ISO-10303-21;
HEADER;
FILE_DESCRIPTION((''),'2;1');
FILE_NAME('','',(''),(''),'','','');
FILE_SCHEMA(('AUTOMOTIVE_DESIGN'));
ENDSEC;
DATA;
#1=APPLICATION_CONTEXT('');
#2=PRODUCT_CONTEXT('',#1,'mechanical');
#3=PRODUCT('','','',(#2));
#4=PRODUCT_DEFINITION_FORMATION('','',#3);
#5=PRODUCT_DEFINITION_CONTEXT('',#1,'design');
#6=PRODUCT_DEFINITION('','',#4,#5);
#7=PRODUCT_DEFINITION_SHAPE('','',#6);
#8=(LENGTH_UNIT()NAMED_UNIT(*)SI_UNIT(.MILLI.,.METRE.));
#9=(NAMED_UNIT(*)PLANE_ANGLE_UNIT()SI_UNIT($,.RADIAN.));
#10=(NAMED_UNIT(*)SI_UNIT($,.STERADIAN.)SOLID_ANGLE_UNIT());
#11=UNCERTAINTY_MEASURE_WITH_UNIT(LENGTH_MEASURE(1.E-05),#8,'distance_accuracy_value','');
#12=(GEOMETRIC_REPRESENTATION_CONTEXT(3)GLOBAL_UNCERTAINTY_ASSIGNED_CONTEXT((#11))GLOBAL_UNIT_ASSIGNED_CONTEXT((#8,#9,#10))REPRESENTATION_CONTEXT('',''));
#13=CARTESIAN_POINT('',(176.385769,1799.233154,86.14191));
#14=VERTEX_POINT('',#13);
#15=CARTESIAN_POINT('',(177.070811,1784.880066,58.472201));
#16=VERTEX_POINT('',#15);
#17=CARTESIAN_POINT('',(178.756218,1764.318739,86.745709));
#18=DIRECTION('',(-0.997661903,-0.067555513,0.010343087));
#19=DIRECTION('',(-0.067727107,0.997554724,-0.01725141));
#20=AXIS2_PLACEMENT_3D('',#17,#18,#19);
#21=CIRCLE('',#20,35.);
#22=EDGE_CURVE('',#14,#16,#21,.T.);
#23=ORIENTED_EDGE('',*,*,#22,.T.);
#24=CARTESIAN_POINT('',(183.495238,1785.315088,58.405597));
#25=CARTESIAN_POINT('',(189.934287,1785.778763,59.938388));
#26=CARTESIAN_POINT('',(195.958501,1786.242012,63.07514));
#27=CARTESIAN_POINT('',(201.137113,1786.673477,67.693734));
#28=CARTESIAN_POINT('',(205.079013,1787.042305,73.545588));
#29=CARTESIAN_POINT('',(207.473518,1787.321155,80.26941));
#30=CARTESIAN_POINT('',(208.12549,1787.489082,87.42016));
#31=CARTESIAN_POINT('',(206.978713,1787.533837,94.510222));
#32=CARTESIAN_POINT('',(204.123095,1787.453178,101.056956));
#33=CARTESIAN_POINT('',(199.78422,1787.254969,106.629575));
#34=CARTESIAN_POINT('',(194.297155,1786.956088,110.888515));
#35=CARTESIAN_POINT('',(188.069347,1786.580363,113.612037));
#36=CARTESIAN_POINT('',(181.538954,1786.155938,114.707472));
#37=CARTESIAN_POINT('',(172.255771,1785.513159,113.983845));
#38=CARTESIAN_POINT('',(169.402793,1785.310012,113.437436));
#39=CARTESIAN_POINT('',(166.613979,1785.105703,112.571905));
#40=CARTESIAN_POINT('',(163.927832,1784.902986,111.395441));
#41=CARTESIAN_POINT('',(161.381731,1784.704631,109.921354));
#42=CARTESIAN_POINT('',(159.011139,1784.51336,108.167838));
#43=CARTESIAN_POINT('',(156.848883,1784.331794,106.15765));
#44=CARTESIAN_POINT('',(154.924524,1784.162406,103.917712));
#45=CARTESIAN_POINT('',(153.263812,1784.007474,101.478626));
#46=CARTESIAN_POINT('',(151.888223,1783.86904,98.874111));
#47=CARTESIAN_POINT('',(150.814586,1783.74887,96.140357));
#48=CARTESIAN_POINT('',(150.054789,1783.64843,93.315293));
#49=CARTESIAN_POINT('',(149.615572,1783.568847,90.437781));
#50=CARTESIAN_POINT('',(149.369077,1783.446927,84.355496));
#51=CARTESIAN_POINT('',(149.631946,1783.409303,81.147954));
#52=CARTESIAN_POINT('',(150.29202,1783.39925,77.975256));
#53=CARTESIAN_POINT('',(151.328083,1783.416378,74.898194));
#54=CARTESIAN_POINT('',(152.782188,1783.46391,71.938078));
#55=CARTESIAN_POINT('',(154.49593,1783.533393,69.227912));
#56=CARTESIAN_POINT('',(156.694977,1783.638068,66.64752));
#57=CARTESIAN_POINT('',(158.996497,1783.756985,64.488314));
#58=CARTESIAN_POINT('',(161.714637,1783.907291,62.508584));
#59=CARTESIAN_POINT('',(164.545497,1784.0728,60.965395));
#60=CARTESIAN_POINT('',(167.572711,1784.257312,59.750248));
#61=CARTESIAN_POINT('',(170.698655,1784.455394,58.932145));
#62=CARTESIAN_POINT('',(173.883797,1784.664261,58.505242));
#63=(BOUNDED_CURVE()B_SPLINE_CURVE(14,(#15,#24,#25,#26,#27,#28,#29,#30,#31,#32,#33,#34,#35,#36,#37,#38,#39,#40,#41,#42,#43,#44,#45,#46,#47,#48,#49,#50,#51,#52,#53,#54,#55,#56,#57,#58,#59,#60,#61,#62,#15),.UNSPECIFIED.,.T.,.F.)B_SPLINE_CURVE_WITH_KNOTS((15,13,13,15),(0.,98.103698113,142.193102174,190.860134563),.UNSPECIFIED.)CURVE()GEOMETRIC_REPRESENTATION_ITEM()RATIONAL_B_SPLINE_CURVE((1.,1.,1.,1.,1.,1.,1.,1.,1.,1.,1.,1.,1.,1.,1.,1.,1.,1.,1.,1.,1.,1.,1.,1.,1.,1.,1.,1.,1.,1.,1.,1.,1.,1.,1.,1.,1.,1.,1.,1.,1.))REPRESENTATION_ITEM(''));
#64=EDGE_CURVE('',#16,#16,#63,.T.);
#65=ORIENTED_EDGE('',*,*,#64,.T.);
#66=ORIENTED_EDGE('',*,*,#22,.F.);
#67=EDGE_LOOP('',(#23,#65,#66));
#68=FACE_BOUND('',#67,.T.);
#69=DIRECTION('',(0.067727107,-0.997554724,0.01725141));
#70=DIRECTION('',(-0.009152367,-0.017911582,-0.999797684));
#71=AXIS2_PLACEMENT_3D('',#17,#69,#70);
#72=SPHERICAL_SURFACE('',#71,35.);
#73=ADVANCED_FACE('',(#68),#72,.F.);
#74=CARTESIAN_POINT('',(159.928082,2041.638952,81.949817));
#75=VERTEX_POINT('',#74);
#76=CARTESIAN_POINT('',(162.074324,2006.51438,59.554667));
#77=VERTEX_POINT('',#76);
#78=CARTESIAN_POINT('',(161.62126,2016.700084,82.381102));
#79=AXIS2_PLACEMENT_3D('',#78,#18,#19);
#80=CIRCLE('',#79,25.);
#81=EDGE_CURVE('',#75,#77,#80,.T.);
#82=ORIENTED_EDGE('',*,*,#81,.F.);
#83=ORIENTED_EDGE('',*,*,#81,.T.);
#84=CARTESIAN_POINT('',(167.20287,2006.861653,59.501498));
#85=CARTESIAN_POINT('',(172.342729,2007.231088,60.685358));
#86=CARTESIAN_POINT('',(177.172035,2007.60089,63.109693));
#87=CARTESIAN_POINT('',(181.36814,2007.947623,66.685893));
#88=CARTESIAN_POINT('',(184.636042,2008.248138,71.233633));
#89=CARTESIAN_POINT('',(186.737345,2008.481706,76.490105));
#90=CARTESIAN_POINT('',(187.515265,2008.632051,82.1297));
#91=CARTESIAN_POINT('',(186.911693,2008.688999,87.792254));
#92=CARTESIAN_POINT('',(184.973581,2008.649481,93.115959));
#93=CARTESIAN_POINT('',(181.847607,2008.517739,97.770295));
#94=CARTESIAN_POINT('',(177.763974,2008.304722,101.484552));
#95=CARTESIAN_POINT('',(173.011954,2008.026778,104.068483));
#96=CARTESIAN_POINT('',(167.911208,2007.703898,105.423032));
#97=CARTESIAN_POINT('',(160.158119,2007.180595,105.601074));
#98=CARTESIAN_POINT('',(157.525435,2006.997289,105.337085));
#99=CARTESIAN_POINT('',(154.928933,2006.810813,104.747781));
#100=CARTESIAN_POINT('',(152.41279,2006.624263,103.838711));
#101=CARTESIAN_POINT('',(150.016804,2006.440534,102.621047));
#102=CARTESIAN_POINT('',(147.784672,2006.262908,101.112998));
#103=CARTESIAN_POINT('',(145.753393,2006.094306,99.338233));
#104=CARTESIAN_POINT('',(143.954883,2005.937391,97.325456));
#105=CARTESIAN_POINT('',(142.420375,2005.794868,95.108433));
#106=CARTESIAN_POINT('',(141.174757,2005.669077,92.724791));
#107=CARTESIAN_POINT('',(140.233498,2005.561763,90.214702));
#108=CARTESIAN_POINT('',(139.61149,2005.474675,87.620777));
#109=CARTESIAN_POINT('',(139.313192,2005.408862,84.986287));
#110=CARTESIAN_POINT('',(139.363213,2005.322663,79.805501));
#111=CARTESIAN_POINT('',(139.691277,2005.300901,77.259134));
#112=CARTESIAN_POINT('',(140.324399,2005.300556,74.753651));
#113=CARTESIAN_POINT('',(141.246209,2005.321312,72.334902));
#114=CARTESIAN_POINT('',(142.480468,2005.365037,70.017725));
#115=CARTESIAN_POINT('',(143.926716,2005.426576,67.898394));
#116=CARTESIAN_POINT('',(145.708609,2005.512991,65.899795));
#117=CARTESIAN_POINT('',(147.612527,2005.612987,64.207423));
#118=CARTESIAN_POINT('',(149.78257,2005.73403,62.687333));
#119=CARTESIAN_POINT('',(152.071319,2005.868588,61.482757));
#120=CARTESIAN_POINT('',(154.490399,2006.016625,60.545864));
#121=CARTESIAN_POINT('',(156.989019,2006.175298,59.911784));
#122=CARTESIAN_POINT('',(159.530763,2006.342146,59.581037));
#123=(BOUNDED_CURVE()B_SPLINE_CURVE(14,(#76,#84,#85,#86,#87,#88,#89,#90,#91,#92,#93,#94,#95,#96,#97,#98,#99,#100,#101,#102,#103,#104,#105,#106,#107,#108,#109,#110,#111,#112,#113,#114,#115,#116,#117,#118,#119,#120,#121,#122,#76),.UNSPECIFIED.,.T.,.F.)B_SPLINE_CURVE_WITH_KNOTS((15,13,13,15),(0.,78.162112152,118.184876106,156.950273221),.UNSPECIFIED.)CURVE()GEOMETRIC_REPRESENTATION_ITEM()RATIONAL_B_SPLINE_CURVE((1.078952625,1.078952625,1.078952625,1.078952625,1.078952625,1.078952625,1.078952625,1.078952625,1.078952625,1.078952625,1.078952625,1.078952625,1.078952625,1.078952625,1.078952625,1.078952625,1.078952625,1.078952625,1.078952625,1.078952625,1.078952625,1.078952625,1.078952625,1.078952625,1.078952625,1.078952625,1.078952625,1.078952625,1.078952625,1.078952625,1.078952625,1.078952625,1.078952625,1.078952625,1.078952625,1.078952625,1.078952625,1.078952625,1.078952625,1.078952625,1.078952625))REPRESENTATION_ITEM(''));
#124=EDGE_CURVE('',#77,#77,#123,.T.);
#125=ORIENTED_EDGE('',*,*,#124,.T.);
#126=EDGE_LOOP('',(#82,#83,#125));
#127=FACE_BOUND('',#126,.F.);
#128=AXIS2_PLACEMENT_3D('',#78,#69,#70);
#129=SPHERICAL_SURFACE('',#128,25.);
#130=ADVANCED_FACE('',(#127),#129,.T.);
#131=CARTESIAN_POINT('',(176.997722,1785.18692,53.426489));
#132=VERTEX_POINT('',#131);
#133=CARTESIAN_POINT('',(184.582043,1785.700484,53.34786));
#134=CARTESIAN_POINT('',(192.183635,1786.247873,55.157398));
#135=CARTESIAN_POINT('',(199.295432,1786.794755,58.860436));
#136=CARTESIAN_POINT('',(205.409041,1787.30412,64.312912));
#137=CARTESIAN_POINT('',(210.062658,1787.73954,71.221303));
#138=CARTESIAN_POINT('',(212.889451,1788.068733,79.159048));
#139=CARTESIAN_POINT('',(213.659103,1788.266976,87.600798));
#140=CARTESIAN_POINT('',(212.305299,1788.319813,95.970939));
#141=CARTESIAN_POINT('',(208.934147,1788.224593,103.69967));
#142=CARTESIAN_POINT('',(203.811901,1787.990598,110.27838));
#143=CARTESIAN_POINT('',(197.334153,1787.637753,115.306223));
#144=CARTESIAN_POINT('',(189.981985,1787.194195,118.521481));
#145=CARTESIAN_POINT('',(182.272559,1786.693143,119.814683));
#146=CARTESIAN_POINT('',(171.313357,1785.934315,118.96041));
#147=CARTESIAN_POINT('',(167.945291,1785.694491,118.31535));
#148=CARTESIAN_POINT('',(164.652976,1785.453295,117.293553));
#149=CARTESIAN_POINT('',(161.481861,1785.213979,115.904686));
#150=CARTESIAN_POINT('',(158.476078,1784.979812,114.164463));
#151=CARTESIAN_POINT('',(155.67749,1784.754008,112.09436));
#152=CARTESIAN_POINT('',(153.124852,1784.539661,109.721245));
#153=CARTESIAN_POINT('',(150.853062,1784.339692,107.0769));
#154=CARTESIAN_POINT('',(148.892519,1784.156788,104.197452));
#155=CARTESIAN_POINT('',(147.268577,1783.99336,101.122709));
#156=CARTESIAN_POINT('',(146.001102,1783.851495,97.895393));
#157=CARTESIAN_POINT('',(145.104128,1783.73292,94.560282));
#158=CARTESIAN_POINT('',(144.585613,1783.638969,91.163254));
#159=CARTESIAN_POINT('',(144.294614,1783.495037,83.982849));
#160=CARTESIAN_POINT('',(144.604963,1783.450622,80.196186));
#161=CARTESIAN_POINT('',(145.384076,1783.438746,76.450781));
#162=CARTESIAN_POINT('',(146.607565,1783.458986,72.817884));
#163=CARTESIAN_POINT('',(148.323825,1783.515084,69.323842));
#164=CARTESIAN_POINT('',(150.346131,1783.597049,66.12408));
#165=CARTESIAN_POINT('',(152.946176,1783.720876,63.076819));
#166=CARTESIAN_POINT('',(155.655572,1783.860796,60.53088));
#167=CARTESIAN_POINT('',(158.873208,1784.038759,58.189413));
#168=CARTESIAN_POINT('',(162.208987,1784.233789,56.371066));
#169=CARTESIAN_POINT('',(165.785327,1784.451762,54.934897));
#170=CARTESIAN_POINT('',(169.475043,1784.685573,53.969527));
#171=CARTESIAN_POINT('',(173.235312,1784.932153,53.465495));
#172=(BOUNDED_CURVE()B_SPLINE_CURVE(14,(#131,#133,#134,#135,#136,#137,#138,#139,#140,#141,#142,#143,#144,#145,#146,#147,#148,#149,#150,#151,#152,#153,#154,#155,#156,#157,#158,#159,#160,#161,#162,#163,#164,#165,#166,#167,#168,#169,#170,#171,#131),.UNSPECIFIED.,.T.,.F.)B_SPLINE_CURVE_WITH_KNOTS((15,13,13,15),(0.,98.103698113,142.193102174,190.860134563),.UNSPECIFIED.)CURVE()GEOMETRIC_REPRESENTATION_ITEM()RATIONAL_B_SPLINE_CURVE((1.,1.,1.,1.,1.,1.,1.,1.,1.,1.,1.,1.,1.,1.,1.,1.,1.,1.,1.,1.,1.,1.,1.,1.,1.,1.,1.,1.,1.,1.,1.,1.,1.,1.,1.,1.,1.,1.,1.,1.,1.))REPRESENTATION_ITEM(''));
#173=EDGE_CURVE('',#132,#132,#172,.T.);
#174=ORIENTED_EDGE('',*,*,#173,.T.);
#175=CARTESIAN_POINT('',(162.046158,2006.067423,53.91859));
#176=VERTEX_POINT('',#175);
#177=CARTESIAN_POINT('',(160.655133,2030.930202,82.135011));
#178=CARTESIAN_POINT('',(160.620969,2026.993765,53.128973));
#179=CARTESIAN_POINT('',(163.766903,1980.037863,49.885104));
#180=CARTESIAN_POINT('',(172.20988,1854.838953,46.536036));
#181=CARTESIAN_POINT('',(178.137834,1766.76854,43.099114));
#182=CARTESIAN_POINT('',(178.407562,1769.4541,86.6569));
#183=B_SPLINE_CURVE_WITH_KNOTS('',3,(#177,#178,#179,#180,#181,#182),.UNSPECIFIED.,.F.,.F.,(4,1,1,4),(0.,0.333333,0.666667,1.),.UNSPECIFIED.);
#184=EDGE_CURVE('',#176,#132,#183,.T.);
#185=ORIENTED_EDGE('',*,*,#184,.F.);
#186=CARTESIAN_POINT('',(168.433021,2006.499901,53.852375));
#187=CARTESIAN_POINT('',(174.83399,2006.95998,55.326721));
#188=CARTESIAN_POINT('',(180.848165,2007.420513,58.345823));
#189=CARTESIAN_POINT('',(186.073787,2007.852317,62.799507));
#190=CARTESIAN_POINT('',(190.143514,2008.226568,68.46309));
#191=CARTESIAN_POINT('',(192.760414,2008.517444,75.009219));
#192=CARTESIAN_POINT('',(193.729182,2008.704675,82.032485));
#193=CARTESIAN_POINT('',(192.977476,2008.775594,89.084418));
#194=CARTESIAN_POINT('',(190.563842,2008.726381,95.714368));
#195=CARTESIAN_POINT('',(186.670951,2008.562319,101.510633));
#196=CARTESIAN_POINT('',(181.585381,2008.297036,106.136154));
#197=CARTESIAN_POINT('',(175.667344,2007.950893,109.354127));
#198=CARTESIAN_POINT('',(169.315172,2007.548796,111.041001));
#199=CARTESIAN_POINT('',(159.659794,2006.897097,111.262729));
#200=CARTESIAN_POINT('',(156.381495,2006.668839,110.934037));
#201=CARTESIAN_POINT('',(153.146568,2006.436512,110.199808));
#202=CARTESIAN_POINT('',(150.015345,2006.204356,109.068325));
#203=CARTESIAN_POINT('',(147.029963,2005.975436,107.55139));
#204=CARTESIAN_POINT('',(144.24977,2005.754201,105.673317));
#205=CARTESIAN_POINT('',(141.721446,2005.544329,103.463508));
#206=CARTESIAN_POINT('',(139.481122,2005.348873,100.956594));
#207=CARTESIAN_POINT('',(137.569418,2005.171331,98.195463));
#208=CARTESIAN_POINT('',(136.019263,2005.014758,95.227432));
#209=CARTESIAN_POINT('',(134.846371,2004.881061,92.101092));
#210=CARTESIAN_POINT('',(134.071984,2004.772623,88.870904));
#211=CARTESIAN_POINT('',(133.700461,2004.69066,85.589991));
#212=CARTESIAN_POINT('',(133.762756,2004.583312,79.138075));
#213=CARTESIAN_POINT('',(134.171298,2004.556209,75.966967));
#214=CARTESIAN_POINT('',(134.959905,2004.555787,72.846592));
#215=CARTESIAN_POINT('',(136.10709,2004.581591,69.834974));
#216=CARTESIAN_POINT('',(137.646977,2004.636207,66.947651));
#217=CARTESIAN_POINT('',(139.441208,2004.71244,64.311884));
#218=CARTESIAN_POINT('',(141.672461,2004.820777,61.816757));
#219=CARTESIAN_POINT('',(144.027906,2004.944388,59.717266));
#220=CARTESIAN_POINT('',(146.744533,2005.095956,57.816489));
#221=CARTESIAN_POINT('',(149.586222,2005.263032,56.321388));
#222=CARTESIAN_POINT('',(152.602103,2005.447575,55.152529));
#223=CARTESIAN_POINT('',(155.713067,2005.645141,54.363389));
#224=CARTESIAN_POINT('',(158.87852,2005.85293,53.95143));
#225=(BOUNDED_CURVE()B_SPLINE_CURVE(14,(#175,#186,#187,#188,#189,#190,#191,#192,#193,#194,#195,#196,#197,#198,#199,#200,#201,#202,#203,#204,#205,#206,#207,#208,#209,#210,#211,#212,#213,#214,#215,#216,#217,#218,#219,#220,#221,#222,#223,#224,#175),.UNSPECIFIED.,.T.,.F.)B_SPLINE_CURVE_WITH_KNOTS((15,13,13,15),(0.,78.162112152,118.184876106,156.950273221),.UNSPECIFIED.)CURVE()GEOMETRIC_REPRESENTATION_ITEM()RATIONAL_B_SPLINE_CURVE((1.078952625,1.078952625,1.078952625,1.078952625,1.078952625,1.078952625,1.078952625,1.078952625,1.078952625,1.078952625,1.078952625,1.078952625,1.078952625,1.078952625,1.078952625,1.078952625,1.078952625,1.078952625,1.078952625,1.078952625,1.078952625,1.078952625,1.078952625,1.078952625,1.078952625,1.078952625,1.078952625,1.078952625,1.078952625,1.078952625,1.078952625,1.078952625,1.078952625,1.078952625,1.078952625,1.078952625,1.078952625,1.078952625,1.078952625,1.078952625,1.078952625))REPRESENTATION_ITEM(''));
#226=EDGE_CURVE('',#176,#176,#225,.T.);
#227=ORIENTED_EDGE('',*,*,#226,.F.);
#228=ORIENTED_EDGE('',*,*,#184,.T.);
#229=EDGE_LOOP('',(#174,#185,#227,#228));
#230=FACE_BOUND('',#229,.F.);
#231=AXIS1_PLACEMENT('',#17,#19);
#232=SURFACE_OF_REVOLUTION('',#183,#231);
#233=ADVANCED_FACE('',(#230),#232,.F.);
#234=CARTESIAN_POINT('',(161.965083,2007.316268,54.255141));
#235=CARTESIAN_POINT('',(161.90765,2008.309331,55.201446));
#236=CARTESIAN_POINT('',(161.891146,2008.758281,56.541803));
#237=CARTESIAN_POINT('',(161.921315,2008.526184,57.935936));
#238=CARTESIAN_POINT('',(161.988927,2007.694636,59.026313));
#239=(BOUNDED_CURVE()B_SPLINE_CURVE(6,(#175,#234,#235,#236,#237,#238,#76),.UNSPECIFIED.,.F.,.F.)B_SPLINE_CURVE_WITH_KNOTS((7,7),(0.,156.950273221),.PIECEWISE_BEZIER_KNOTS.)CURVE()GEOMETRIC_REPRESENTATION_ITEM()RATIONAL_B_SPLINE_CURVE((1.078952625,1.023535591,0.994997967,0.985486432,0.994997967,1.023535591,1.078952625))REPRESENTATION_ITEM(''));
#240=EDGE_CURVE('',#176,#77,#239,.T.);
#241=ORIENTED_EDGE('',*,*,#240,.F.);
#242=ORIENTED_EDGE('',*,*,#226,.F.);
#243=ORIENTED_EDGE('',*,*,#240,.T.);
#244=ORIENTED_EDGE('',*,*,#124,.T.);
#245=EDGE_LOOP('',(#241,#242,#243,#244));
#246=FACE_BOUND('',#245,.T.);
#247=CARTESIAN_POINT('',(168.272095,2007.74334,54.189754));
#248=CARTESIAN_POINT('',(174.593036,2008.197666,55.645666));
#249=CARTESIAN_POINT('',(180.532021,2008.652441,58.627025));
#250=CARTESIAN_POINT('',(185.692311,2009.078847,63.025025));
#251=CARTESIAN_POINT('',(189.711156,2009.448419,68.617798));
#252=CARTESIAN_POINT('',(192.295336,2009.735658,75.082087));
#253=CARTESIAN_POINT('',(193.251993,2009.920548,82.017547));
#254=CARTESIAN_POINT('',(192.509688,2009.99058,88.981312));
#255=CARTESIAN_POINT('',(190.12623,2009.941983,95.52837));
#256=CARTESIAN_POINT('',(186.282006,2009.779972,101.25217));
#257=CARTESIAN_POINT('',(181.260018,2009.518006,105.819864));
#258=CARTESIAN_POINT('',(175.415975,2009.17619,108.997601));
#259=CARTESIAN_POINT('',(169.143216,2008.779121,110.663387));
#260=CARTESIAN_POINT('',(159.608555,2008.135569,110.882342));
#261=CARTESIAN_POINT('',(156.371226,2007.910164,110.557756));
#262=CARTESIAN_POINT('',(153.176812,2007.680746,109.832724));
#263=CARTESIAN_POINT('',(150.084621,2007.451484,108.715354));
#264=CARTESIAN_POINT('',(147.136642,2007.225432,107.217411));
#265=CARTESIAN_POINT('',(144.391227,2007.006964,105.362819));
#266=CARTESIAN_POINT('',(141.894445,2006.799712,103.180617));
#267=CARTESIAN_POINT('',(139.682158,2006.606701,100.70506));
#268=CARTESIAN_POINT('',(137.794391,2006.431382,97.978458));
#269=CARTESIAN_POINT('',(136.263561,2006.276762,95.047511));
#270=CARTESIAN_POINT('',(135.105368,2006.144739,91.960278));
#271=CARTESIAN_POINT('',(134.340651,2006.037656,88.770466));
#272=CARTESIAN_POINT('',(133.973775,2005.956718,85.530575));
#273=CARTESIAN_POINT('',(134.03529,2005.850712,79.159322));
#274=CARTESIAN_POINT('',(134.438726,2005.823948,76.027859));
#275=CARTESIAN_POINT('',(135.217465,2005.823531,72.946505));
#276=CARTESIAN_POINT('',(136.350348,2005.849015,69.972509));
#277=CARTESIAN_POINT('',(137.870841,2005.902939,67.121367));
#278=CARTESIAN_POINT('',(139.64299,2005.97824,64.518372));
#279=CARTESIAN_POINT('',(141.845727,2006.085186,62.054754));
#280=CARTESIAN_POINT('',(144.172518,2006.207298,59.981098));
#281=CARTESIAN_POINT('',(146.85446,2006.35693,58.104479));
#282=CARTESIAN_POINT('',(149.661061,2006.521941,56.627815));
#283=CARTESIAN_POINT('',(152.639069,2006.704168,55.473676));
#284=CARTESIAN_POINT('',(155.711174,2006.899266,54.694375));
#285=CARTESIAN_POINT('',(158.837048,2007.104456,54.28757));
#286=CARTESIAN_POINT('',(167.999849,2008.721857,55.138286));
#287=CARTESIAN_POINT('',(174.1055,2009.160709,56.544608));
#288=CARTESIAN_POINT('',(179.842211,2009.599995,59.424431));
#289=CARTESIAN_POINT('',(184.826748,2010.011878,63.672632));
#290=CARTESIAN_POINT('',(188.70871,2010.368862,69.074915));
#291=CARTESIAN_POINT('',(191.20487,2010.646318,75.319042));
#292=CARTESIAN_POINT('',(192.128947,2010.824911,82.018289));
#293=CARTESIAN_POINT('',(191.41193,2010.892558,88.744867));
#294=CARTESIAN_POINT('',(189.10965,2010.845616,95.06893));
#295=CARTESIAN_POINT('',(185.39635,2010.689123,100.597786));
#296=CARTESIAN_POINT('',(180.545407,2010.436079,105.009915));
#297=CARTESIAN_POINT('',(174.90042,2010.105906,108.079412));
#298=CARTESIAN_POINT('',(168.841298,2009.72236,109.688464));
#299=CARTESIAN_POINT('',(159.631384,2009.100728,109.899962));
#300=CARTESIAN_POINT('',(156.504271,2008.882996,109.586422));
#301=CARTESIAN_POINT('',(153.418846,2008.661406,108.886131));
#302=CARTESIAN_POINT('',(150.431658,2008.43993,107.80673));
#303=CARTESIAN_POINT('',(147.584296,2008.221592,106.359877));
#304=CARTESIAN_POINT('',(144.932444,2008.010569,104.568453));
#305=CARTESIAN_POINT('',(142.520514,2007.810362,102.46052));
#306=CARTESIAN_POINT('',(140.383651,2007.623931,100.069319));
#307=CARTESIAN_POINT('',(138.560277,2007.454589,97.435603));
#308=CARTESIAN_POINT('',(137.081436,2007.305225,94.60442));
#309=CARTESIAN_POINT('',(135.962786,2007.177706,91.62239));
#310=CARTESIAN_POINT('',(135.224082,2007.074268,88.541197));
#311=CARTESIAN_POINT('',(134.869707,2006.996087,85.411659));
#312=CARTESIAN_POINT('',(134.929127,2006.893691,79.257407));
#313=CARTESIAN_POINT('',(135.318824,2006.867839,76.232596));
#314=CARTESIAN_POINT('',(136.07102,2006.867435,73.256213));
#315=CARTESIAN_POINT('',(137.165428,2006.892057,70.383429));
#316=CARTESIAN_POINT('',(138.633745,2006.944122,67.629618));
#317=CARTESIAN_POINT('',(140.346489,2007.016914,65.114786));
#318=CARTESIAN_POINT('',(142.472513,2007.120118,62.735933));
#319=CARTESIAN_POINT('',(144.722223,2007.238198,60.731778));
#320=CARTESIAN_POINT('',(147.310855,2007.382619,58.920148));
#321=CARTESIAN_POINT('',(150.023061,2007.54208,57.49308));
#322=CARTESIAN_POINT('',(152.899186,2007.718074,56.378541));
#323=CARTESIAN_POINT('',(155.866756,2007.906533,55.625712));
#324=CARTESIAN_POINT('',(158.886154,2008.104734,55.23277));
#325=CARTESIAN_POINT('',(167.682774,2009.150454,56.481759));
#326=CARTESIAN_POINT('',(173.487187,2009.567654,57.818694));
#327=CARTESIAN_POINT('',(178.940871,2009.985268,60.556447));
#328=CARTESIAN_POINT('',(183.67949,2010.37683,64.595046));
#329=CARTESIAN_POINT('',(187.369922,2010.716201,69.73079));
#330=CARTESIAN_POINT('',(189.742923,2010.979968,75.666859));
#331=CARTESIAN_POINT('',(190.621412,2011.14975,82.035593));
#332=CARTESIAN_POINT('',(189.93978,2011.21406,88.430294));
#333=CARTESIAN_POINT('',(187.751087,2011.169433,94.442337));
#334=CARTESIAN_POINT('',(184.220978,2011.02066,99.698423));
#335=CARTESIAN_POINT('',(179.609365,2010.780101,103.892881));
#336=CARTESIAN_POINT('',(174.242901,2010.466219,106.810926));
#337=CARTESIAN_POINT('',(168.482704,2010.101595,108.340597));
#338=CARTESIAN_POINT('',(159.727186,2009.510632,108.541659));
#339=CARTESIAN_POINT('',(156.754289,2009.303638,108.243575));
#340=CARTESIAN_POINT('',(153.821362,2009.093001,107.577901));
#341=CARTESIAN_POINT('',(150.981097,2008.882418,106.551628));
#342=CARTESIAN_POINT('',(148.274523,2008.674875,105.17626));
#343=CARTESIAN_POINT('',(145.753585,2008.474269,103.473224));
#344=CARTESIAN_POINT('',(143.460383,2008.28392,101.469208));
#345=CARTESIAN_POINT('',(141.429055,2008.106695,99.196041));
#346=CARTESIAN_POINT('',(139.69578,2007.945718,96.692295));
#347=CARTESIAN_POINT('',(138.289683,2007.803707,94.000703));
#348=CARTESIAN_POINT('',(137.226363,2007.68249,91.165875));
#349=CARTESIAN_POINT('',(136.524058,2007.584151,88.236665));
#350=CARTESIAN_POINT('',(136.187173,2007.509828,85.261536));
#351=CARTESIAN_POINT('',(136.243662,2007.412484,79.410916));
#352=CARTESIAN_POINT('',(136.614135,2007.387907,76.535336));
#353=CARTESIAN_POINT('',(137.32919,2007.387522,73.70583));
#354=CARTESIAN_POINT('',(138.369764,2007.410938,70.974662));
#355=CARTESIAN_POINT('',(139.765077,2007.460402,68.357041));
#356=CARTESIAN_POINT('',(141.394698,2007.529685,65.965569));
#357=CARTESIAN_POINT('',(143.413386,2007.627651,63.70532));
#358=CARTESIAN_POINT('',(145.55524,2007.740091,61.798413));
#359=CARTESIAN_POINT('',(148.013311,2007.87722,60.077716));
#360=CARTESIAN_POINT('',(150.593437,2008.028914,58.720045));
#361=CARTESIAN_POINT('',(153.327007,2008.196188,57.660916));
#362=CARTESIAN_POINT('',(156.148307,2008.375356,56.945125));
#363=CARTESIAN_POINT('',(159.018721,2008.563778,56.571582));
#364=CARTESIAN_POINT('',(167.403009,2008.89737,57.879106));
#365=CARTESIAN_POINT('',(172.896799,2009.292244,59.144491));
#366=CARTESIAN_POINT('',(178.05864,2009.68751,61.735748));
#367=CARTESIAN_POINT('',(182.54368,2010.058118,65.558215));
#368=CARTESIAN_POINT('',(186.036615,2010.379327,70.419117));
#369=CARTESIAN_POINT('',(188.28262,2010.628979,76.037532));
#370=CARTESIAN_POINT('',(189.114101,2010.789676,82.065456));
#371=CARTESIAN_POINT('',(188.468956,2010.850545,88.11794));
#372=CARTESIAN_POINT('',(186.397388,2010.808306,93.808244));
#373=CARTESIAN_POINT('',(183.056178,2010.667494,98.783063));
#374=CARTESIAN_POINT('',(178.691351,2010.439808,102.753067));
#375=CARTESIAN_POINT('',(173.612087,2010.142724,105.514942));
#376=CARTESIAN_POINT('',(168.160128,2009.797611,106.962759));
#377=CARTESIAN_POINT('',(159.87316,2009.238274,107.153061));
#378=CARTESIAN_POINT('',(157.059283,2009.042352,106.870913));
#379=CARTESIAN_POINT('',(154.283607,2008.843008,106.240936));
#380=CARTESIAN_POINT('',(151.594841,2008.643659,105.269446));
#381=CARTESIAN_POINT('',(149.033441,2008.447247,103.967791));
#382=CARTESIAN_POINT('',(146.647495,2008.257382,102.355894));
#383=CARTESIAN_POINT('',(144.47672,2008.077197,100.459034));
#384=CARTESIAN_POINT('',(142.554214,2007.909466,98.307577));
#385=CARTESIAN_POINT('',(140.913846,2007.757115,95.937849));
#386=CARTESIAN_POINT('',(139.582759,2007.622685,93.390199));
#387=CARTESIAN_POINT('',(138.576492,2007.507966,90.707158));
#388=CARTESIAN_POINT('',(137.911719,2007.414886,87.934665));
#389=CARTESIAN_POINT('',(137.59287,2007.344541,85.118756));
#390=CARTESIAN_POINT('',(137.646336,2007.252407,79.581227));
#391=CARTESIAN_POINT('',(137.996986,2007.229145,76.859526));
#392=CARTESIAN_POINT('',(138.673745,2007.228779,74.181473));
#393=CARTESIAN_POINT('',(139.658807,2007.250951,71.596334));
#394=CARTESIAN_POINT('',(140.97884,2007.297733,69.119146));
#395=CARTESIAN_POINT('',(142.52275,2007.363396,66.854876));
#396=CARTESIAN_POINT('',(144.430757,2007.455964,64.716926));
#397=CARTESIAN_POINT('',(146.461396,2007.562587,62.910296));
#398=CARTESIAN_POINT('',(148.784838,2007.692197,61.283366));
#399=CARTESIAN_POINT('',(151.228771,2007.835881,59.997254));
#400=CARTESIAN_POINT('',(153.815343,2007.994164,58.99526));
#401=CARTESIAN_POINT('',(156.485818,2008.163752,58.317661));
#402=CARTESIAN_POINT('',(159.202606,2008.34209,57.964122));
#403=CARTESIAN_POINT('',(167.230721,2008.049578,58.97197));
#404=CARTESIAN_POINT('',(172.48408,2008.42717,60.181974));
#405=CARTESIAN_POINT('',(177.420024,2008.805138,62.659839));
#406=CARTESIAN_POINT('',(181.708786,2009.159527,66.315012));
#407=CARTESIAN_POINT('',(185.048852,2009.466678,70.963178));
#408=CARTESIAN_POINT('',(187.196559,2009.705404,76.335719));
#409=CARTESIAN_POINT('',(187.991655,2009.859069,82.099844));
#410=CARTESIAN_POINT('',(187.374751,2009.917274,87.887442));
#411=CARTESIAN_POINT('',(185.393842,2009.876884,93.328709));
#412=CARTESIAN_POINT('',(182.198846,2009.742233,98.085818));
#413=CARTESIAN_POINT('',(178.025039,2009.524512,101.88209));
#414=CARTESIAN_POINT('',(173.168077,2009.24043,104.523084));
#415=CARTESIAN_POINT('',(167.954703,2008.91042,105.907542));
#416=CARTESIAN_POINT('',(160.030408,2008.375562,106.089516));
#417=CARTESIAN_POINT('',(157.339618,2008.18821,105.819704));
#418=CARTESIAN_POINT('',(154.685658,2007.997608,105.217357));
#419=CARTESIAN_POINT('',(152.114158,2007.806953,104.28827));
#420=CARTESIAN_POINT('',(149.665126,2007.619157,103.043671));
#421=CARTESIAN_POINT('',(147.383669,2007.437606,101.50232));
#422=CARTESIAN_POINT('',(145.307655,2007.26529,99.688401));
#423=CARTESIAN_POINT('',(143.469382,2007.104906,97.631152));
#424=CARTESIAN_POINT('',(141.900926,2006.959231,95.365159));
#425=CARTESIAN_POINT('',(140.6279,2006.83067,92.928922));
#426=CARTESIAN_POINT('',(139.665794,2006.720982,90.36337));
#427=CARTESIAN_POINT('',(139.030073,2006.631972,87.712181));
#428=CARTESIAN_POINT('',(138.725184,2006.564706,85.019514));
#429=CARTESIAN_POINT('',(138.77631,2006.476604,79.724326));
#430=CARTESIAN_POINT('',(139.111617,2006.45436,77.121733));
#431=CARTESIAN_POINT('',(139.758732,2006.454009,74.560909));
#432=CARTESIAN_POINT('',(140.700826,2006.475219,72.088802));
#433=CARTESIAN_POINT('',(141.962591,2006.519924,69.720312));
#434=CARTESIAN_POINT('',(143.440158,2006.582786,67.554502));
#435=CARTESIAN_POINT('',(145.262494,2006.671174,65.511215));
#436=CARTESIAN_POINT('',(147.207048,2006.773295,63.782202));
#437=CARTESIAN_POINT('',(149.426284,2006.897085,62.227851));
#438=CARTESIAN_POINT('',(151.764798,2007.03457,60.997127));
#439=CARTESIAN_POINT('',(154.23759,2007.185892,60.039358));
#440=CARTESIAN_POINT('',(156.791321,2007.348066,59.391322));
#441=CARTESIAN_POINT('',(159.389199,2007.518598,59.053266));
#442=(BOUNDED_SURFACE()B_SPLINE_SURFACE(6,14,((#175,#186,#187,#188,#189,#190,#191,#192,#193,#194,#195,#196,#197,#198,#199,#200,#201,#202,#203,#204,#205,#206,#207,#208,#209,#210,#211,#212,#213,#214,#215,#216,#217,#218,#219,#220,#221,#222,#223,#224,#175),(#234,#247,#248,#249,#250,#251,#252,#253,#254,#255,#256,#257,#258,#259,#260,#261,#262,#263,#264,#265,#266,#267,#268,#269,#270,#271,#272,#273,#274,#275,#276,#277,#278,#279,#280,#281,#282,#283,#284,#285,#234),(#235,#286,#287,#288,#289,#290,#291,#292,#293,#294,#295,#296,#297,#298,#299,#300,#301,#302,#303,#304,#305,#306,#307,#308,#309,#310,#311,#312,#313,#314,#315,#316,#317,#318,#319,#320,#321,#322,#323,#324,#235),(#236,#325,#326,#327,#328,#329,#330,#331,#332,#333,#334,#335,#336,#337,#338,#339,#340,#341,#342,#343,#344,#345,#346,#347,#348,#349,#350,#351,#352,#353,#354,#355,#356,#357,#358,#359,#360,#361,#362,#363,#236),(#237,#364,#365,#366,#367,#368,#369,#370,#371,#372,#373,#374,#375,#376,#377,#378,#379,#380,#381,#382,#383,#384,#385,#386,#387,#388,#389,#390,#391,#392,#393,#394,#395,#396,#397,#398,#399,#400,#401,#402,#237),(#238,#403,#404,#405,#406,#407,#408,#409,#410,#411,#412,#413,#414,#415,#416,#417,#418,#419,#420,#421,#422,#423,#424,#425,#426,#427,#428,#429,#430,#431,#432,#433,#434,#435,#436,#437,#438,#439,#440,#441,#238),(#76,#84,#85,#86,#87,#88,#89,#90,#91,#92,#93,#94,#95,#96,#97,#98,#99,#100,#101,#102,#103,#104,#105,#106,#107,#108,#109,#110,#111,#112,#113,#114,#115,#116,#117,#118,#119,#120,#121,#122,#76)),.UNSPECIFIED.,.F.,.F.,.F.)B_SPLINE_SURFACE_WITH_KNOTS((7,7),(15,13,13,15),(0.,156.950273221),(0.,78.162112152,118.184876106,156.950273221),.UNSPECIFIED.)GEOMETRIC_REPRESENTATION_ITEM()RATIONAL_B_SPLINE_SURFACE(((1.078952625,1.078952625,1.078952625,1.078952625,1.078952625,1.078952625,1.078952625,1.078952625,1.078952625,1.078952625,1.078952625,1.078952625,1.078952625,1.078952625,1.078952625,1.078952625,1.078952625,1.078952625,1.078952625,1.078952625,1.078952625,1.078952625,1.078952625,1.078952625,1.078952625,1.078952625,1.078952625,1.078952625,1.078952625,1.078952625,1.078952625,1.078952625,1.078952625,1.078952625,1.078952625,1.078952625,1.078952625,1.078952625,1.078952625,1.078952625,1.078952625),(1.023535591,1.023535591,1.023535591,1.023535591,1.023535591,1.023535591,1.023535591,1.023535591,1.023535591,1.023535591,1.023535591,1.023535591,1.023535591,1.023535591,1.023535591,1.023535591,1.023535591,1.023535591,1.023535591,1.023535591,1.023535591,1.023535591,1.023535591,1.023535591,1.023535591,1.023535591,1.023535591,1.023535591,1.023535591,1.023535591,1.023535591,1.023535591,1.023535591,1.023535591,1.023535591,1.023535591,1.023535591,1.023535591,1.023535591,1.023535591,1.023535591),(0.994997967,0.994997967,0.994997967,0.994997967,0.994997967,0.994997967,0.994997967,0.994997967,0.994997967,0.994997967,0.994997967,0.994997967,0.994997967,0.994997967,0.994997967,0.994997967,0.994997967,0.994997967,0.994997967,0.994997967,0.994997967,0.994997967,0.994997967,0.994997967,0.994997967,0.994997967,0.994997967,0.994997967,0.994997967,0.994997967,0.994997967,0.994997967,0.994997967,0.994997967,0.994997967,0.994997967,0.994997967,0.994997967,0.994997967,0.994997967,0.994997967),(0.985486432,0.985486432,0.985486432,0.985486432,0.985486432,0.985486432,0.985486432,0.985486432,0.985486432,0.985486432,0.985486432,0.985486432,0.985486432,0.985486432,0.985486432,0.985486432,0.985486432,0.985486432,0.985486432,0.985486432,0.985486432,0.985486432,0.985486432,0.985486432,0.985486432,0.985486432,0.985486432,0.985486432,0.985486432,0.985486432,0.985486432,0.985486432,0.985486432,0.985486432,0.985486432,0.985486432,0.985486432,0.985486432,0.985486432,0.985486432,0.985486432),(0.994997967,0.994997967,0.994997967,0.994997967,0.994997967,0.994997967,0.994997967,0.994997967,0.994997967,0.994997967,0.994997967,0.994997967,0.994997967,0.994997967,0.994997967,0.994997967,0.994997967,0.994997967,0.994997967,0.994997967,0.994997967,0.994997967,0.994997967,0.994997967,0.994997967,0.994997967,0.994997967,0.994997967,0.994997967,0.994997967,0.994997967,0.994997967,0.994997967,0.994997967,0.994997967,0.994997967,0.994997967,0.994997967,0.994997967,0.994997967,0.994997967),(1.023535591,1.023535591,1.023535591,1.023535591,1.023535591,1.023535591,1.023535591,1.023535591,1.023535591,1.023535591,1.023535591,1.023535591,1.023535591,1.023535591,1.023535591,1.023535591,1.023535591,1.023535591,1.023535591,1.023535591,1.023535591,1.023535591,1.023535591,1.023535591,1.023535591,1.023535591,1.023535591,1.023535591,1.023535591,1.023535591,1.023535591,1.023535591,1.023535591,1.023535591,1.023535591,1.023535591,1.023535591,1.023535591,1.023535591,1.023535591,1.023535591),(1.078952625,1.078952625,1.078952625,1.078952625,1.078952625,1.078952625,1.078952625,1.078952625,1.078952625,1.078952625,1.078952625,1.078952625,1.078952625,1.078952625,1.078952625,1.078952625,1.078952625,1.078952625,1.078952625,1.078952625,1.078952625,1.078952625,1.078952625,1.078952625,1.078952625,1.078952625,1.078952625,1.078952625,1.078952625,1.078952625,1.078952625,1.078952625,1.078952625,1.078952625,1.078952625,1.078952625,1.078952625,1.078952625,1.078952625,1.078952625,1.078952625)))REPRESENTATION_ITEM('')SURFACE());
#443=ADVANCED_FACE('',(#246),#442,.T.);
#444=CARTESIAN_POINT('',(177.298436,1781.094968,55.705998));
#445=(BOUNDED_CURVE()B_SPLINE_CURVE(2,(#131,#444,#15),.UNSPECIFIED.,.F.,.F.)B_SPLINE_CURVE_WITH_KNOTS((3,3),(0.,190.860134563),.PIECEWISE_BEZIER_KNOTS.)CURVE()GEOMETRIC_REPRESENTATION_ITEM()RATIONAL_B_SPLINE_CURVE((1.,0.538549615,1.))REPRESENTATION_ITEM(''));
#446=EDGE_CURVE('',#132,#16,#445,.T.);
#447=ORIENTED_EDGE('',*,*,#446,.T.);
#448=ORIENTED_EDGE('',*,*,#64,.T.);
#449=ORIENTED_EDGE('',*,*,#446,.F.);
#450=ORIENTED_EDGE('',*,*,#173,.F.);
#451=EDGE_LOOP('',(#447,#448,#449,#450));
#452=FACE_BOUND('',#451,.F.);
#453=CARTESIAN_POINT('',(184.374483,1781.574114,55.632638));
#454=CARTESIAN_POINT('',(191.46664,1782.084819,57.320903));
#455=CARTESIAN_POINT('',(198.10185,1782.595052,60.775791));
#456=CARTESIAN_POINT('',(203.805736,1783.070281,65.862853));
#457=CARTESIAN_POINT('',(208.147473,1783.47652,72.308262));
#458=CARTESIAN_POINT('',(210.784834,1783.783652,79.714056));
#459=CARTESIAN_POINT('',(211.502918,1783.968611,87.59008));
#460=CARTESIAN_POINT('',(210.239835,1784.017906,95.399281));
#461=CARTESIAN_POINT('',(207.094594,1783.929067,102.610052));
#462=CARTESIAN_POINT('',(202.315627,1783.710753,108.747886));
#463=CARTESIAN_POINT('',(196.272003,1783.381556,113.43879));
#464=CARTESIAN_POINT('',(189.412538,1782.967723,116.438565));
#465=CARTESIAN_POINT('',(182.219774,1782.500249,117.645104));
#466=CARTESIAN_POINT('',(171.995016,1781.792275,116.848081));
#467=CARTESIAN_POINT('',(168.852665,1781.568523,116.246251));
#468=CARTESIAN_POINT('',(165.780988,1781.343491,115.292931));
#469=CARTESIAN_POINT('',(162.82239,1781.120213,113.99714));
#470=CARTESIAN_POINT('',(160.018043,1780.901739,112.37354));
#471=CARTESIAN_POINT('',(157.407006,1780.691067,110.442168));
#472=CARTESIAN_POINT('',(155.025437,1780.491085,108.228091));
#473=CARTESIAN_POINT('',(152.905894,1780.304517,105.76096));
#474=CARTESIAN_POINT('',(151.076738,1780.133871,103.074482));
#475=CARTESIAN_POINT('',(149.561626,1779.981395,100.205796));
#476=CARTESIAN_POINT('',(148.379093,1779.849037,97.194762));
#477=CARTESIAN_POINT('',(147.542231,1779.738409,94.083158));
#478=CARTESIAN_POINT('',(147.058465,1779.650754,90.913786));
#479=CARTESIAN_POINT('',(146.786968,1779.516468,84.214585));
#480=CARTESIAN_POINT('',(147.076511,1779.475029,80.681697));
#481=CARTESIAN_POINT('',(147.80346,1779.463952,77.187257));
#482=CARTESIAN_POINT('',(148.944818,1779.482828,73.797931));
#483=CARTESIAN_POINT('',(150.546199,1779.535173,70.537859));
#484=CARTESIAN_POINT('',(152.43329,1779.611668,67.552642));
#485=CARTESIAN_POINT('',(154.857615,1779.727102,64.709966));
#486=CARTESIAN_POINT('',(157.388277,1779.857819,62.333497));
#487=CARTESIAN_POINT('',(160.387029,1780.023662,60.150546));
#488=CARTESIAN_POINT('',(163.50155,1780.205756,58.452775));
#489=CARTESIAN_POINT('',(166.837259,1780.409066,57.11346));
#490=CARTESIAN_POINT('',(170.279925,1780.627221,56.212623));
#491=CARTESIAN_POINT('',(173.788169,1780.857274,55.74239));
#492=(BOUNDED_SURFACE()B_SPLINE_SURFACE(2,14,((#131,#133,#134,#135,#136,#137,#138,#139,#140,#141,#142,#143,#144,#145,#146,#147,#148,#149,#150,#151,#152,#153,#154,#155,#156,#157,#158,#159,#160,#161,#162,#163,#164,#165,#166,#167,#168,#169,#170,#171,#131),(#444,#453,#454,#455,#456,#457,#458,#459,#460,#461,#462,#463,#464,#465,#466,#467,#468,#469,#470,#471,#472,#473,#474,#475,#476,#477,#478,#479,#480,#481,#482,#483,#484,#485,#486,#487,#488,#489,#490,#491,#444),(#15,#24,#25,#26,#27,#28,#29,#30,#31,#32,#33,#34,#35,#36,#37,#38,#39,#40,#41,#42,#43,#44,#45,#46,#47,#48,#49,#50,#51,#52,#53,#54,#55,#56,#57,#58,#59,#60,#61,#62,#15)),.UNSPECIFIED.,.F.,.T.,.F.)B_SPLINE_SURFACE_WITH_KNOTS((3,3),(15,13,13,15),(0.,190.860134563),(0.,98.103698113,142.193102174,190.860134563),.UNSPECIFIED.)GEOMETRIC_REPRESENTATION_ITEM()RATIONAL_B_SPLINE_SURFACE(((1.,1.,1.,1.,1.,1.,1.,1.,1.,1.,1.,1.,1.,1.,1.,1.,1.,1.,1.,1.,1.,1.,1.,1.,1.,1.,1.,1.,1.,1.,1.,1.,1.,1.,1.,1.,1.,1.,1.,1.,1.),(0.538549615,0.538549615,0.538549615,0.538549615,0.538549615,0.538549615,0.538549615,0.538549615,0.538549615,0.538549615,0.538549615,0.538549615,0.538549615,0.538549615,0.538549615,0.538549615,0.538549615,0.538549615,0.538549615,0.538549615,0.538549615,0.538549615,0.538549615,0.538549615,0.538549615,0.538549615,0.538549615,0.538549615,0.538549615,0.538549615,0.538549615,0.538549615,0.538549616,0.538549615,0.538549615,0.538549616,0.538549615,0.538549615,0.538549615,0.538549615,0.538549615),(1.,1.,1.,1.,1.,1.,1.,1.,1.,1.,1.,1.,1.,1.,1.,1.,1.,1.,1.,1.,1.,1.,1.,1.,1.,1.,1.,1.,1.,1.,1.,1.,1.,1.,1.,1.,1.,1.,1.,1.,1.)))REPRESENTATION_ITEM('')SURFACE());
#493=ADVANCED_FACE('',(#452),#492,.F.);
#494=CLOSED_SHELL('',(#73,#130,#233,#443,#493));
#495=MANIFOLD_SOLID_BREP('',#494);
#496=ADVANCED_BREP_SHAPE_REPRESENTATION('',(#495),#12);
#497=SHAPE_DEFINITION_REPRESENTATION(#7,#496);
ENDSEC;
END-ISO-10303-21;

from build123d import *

# Parameters (mm, degrees)
FILLET061_R             = 3
FILLET062_R             = 3
BODY038_ROLL_ANGLE      = -89.407286
BODY038_PITCH_ANGLE     = 0.988482
BODY038_PLACEMENT_ANGLE = 93.884029


with BuildPart() as part:
    # Sketch128 → Revolution067 (revolve)
    with BuildSketch(Plane.XY):
        with BuildLine():
            Line((5.147949, 0), (267.265, 0))
            add(Edge.make_bspline(
                [(267.265, 0), (263.840897, 29.07099), (216.842712, 33.126465), (91.435905, 38.640092), (3.238657, 43.599544), (5.147949, 0)],
                knots=[0, 0, 0, 0, 0.333333, 0.666667, 1, 1, 1, 1], degree=3))
        make_face()
    revolve(axis=Axis((0, 0, 0), (1, 0, 0)))

    # Sketch129 → Groove060 (revolve, cut)
    with BuildSketch(Plane.XY):
        with BuildLine():
            Line((-35, 0), (35, 0))
            ThreePointArc((35, 0), (0, 35), (-35, 0))
        make_face()
    revolve(axis=Axis((0, 0, 0), (1, 0, 0)), mode=Mode.SUBTRACT)

    # Fillet061
    fillet061_edges = [part.edges().sort_by_distance(p)[0] for p in [
        (17.386166, -30.376327, 0),
    ]]
    fillet(fillet061_edges, radius=FILLET061_R)

    # Sketch130 → Groove061 (revolve, cut)
    with BuildSketch(Plane.XY):
        with BuildLine():
            Line((228, 0), (278, 0))
            ThreePointArc((278, 0), (253, 25), (228, 0))
        make_face()
    revolve(axis=Axis((0, 0, 0), (1, 0, 0)), mode=Mode.SUBTRACT)

    # Fillet062
    fillet062_edges = [part.edges().sort_by_distance(p)[0] for p in [
        (251.985595, -24.979411, 0),
    ]]
    fillet(fillet062_edges, radius=FILLET062_R)

    # Sketch130 → Revolution068 (revolve)
    with BuildSketch(Plane.XY):
        with BuildLine():
            Line((228, 0), (278, 0))
            ThreePointArc((278, 0), (253, 25), (228, 0))
        make_face()
    revolve(axis=Axis((0, 0, 0), (1, 0, 0)))


with BuildPart() as part_1:
    # Body038 roll: moved
    add(part.part.rotate(Axis((0, 0, 0), (1, 0, 0)), BODY038_ROLL_ANGLE))


with BuildPart() as part_2:
    # Body038 pitch: moved
    add(part_1.part.rotate(Axis((0, 0, 0), (0, 1, 0)), BODY038_PITCH_ANGLE))


with BuildPart() as part_3:
    # Body038 placement: moved
    add(part_2.part.moved(Location((178.756218, 1764.318739, 86.745709))).rotate(Axis((178.756218, 1764.318739, 86.745709), (0, 0, 1)), BODY038_PLACEMENT_ANGLE))


solid = part_3.part
